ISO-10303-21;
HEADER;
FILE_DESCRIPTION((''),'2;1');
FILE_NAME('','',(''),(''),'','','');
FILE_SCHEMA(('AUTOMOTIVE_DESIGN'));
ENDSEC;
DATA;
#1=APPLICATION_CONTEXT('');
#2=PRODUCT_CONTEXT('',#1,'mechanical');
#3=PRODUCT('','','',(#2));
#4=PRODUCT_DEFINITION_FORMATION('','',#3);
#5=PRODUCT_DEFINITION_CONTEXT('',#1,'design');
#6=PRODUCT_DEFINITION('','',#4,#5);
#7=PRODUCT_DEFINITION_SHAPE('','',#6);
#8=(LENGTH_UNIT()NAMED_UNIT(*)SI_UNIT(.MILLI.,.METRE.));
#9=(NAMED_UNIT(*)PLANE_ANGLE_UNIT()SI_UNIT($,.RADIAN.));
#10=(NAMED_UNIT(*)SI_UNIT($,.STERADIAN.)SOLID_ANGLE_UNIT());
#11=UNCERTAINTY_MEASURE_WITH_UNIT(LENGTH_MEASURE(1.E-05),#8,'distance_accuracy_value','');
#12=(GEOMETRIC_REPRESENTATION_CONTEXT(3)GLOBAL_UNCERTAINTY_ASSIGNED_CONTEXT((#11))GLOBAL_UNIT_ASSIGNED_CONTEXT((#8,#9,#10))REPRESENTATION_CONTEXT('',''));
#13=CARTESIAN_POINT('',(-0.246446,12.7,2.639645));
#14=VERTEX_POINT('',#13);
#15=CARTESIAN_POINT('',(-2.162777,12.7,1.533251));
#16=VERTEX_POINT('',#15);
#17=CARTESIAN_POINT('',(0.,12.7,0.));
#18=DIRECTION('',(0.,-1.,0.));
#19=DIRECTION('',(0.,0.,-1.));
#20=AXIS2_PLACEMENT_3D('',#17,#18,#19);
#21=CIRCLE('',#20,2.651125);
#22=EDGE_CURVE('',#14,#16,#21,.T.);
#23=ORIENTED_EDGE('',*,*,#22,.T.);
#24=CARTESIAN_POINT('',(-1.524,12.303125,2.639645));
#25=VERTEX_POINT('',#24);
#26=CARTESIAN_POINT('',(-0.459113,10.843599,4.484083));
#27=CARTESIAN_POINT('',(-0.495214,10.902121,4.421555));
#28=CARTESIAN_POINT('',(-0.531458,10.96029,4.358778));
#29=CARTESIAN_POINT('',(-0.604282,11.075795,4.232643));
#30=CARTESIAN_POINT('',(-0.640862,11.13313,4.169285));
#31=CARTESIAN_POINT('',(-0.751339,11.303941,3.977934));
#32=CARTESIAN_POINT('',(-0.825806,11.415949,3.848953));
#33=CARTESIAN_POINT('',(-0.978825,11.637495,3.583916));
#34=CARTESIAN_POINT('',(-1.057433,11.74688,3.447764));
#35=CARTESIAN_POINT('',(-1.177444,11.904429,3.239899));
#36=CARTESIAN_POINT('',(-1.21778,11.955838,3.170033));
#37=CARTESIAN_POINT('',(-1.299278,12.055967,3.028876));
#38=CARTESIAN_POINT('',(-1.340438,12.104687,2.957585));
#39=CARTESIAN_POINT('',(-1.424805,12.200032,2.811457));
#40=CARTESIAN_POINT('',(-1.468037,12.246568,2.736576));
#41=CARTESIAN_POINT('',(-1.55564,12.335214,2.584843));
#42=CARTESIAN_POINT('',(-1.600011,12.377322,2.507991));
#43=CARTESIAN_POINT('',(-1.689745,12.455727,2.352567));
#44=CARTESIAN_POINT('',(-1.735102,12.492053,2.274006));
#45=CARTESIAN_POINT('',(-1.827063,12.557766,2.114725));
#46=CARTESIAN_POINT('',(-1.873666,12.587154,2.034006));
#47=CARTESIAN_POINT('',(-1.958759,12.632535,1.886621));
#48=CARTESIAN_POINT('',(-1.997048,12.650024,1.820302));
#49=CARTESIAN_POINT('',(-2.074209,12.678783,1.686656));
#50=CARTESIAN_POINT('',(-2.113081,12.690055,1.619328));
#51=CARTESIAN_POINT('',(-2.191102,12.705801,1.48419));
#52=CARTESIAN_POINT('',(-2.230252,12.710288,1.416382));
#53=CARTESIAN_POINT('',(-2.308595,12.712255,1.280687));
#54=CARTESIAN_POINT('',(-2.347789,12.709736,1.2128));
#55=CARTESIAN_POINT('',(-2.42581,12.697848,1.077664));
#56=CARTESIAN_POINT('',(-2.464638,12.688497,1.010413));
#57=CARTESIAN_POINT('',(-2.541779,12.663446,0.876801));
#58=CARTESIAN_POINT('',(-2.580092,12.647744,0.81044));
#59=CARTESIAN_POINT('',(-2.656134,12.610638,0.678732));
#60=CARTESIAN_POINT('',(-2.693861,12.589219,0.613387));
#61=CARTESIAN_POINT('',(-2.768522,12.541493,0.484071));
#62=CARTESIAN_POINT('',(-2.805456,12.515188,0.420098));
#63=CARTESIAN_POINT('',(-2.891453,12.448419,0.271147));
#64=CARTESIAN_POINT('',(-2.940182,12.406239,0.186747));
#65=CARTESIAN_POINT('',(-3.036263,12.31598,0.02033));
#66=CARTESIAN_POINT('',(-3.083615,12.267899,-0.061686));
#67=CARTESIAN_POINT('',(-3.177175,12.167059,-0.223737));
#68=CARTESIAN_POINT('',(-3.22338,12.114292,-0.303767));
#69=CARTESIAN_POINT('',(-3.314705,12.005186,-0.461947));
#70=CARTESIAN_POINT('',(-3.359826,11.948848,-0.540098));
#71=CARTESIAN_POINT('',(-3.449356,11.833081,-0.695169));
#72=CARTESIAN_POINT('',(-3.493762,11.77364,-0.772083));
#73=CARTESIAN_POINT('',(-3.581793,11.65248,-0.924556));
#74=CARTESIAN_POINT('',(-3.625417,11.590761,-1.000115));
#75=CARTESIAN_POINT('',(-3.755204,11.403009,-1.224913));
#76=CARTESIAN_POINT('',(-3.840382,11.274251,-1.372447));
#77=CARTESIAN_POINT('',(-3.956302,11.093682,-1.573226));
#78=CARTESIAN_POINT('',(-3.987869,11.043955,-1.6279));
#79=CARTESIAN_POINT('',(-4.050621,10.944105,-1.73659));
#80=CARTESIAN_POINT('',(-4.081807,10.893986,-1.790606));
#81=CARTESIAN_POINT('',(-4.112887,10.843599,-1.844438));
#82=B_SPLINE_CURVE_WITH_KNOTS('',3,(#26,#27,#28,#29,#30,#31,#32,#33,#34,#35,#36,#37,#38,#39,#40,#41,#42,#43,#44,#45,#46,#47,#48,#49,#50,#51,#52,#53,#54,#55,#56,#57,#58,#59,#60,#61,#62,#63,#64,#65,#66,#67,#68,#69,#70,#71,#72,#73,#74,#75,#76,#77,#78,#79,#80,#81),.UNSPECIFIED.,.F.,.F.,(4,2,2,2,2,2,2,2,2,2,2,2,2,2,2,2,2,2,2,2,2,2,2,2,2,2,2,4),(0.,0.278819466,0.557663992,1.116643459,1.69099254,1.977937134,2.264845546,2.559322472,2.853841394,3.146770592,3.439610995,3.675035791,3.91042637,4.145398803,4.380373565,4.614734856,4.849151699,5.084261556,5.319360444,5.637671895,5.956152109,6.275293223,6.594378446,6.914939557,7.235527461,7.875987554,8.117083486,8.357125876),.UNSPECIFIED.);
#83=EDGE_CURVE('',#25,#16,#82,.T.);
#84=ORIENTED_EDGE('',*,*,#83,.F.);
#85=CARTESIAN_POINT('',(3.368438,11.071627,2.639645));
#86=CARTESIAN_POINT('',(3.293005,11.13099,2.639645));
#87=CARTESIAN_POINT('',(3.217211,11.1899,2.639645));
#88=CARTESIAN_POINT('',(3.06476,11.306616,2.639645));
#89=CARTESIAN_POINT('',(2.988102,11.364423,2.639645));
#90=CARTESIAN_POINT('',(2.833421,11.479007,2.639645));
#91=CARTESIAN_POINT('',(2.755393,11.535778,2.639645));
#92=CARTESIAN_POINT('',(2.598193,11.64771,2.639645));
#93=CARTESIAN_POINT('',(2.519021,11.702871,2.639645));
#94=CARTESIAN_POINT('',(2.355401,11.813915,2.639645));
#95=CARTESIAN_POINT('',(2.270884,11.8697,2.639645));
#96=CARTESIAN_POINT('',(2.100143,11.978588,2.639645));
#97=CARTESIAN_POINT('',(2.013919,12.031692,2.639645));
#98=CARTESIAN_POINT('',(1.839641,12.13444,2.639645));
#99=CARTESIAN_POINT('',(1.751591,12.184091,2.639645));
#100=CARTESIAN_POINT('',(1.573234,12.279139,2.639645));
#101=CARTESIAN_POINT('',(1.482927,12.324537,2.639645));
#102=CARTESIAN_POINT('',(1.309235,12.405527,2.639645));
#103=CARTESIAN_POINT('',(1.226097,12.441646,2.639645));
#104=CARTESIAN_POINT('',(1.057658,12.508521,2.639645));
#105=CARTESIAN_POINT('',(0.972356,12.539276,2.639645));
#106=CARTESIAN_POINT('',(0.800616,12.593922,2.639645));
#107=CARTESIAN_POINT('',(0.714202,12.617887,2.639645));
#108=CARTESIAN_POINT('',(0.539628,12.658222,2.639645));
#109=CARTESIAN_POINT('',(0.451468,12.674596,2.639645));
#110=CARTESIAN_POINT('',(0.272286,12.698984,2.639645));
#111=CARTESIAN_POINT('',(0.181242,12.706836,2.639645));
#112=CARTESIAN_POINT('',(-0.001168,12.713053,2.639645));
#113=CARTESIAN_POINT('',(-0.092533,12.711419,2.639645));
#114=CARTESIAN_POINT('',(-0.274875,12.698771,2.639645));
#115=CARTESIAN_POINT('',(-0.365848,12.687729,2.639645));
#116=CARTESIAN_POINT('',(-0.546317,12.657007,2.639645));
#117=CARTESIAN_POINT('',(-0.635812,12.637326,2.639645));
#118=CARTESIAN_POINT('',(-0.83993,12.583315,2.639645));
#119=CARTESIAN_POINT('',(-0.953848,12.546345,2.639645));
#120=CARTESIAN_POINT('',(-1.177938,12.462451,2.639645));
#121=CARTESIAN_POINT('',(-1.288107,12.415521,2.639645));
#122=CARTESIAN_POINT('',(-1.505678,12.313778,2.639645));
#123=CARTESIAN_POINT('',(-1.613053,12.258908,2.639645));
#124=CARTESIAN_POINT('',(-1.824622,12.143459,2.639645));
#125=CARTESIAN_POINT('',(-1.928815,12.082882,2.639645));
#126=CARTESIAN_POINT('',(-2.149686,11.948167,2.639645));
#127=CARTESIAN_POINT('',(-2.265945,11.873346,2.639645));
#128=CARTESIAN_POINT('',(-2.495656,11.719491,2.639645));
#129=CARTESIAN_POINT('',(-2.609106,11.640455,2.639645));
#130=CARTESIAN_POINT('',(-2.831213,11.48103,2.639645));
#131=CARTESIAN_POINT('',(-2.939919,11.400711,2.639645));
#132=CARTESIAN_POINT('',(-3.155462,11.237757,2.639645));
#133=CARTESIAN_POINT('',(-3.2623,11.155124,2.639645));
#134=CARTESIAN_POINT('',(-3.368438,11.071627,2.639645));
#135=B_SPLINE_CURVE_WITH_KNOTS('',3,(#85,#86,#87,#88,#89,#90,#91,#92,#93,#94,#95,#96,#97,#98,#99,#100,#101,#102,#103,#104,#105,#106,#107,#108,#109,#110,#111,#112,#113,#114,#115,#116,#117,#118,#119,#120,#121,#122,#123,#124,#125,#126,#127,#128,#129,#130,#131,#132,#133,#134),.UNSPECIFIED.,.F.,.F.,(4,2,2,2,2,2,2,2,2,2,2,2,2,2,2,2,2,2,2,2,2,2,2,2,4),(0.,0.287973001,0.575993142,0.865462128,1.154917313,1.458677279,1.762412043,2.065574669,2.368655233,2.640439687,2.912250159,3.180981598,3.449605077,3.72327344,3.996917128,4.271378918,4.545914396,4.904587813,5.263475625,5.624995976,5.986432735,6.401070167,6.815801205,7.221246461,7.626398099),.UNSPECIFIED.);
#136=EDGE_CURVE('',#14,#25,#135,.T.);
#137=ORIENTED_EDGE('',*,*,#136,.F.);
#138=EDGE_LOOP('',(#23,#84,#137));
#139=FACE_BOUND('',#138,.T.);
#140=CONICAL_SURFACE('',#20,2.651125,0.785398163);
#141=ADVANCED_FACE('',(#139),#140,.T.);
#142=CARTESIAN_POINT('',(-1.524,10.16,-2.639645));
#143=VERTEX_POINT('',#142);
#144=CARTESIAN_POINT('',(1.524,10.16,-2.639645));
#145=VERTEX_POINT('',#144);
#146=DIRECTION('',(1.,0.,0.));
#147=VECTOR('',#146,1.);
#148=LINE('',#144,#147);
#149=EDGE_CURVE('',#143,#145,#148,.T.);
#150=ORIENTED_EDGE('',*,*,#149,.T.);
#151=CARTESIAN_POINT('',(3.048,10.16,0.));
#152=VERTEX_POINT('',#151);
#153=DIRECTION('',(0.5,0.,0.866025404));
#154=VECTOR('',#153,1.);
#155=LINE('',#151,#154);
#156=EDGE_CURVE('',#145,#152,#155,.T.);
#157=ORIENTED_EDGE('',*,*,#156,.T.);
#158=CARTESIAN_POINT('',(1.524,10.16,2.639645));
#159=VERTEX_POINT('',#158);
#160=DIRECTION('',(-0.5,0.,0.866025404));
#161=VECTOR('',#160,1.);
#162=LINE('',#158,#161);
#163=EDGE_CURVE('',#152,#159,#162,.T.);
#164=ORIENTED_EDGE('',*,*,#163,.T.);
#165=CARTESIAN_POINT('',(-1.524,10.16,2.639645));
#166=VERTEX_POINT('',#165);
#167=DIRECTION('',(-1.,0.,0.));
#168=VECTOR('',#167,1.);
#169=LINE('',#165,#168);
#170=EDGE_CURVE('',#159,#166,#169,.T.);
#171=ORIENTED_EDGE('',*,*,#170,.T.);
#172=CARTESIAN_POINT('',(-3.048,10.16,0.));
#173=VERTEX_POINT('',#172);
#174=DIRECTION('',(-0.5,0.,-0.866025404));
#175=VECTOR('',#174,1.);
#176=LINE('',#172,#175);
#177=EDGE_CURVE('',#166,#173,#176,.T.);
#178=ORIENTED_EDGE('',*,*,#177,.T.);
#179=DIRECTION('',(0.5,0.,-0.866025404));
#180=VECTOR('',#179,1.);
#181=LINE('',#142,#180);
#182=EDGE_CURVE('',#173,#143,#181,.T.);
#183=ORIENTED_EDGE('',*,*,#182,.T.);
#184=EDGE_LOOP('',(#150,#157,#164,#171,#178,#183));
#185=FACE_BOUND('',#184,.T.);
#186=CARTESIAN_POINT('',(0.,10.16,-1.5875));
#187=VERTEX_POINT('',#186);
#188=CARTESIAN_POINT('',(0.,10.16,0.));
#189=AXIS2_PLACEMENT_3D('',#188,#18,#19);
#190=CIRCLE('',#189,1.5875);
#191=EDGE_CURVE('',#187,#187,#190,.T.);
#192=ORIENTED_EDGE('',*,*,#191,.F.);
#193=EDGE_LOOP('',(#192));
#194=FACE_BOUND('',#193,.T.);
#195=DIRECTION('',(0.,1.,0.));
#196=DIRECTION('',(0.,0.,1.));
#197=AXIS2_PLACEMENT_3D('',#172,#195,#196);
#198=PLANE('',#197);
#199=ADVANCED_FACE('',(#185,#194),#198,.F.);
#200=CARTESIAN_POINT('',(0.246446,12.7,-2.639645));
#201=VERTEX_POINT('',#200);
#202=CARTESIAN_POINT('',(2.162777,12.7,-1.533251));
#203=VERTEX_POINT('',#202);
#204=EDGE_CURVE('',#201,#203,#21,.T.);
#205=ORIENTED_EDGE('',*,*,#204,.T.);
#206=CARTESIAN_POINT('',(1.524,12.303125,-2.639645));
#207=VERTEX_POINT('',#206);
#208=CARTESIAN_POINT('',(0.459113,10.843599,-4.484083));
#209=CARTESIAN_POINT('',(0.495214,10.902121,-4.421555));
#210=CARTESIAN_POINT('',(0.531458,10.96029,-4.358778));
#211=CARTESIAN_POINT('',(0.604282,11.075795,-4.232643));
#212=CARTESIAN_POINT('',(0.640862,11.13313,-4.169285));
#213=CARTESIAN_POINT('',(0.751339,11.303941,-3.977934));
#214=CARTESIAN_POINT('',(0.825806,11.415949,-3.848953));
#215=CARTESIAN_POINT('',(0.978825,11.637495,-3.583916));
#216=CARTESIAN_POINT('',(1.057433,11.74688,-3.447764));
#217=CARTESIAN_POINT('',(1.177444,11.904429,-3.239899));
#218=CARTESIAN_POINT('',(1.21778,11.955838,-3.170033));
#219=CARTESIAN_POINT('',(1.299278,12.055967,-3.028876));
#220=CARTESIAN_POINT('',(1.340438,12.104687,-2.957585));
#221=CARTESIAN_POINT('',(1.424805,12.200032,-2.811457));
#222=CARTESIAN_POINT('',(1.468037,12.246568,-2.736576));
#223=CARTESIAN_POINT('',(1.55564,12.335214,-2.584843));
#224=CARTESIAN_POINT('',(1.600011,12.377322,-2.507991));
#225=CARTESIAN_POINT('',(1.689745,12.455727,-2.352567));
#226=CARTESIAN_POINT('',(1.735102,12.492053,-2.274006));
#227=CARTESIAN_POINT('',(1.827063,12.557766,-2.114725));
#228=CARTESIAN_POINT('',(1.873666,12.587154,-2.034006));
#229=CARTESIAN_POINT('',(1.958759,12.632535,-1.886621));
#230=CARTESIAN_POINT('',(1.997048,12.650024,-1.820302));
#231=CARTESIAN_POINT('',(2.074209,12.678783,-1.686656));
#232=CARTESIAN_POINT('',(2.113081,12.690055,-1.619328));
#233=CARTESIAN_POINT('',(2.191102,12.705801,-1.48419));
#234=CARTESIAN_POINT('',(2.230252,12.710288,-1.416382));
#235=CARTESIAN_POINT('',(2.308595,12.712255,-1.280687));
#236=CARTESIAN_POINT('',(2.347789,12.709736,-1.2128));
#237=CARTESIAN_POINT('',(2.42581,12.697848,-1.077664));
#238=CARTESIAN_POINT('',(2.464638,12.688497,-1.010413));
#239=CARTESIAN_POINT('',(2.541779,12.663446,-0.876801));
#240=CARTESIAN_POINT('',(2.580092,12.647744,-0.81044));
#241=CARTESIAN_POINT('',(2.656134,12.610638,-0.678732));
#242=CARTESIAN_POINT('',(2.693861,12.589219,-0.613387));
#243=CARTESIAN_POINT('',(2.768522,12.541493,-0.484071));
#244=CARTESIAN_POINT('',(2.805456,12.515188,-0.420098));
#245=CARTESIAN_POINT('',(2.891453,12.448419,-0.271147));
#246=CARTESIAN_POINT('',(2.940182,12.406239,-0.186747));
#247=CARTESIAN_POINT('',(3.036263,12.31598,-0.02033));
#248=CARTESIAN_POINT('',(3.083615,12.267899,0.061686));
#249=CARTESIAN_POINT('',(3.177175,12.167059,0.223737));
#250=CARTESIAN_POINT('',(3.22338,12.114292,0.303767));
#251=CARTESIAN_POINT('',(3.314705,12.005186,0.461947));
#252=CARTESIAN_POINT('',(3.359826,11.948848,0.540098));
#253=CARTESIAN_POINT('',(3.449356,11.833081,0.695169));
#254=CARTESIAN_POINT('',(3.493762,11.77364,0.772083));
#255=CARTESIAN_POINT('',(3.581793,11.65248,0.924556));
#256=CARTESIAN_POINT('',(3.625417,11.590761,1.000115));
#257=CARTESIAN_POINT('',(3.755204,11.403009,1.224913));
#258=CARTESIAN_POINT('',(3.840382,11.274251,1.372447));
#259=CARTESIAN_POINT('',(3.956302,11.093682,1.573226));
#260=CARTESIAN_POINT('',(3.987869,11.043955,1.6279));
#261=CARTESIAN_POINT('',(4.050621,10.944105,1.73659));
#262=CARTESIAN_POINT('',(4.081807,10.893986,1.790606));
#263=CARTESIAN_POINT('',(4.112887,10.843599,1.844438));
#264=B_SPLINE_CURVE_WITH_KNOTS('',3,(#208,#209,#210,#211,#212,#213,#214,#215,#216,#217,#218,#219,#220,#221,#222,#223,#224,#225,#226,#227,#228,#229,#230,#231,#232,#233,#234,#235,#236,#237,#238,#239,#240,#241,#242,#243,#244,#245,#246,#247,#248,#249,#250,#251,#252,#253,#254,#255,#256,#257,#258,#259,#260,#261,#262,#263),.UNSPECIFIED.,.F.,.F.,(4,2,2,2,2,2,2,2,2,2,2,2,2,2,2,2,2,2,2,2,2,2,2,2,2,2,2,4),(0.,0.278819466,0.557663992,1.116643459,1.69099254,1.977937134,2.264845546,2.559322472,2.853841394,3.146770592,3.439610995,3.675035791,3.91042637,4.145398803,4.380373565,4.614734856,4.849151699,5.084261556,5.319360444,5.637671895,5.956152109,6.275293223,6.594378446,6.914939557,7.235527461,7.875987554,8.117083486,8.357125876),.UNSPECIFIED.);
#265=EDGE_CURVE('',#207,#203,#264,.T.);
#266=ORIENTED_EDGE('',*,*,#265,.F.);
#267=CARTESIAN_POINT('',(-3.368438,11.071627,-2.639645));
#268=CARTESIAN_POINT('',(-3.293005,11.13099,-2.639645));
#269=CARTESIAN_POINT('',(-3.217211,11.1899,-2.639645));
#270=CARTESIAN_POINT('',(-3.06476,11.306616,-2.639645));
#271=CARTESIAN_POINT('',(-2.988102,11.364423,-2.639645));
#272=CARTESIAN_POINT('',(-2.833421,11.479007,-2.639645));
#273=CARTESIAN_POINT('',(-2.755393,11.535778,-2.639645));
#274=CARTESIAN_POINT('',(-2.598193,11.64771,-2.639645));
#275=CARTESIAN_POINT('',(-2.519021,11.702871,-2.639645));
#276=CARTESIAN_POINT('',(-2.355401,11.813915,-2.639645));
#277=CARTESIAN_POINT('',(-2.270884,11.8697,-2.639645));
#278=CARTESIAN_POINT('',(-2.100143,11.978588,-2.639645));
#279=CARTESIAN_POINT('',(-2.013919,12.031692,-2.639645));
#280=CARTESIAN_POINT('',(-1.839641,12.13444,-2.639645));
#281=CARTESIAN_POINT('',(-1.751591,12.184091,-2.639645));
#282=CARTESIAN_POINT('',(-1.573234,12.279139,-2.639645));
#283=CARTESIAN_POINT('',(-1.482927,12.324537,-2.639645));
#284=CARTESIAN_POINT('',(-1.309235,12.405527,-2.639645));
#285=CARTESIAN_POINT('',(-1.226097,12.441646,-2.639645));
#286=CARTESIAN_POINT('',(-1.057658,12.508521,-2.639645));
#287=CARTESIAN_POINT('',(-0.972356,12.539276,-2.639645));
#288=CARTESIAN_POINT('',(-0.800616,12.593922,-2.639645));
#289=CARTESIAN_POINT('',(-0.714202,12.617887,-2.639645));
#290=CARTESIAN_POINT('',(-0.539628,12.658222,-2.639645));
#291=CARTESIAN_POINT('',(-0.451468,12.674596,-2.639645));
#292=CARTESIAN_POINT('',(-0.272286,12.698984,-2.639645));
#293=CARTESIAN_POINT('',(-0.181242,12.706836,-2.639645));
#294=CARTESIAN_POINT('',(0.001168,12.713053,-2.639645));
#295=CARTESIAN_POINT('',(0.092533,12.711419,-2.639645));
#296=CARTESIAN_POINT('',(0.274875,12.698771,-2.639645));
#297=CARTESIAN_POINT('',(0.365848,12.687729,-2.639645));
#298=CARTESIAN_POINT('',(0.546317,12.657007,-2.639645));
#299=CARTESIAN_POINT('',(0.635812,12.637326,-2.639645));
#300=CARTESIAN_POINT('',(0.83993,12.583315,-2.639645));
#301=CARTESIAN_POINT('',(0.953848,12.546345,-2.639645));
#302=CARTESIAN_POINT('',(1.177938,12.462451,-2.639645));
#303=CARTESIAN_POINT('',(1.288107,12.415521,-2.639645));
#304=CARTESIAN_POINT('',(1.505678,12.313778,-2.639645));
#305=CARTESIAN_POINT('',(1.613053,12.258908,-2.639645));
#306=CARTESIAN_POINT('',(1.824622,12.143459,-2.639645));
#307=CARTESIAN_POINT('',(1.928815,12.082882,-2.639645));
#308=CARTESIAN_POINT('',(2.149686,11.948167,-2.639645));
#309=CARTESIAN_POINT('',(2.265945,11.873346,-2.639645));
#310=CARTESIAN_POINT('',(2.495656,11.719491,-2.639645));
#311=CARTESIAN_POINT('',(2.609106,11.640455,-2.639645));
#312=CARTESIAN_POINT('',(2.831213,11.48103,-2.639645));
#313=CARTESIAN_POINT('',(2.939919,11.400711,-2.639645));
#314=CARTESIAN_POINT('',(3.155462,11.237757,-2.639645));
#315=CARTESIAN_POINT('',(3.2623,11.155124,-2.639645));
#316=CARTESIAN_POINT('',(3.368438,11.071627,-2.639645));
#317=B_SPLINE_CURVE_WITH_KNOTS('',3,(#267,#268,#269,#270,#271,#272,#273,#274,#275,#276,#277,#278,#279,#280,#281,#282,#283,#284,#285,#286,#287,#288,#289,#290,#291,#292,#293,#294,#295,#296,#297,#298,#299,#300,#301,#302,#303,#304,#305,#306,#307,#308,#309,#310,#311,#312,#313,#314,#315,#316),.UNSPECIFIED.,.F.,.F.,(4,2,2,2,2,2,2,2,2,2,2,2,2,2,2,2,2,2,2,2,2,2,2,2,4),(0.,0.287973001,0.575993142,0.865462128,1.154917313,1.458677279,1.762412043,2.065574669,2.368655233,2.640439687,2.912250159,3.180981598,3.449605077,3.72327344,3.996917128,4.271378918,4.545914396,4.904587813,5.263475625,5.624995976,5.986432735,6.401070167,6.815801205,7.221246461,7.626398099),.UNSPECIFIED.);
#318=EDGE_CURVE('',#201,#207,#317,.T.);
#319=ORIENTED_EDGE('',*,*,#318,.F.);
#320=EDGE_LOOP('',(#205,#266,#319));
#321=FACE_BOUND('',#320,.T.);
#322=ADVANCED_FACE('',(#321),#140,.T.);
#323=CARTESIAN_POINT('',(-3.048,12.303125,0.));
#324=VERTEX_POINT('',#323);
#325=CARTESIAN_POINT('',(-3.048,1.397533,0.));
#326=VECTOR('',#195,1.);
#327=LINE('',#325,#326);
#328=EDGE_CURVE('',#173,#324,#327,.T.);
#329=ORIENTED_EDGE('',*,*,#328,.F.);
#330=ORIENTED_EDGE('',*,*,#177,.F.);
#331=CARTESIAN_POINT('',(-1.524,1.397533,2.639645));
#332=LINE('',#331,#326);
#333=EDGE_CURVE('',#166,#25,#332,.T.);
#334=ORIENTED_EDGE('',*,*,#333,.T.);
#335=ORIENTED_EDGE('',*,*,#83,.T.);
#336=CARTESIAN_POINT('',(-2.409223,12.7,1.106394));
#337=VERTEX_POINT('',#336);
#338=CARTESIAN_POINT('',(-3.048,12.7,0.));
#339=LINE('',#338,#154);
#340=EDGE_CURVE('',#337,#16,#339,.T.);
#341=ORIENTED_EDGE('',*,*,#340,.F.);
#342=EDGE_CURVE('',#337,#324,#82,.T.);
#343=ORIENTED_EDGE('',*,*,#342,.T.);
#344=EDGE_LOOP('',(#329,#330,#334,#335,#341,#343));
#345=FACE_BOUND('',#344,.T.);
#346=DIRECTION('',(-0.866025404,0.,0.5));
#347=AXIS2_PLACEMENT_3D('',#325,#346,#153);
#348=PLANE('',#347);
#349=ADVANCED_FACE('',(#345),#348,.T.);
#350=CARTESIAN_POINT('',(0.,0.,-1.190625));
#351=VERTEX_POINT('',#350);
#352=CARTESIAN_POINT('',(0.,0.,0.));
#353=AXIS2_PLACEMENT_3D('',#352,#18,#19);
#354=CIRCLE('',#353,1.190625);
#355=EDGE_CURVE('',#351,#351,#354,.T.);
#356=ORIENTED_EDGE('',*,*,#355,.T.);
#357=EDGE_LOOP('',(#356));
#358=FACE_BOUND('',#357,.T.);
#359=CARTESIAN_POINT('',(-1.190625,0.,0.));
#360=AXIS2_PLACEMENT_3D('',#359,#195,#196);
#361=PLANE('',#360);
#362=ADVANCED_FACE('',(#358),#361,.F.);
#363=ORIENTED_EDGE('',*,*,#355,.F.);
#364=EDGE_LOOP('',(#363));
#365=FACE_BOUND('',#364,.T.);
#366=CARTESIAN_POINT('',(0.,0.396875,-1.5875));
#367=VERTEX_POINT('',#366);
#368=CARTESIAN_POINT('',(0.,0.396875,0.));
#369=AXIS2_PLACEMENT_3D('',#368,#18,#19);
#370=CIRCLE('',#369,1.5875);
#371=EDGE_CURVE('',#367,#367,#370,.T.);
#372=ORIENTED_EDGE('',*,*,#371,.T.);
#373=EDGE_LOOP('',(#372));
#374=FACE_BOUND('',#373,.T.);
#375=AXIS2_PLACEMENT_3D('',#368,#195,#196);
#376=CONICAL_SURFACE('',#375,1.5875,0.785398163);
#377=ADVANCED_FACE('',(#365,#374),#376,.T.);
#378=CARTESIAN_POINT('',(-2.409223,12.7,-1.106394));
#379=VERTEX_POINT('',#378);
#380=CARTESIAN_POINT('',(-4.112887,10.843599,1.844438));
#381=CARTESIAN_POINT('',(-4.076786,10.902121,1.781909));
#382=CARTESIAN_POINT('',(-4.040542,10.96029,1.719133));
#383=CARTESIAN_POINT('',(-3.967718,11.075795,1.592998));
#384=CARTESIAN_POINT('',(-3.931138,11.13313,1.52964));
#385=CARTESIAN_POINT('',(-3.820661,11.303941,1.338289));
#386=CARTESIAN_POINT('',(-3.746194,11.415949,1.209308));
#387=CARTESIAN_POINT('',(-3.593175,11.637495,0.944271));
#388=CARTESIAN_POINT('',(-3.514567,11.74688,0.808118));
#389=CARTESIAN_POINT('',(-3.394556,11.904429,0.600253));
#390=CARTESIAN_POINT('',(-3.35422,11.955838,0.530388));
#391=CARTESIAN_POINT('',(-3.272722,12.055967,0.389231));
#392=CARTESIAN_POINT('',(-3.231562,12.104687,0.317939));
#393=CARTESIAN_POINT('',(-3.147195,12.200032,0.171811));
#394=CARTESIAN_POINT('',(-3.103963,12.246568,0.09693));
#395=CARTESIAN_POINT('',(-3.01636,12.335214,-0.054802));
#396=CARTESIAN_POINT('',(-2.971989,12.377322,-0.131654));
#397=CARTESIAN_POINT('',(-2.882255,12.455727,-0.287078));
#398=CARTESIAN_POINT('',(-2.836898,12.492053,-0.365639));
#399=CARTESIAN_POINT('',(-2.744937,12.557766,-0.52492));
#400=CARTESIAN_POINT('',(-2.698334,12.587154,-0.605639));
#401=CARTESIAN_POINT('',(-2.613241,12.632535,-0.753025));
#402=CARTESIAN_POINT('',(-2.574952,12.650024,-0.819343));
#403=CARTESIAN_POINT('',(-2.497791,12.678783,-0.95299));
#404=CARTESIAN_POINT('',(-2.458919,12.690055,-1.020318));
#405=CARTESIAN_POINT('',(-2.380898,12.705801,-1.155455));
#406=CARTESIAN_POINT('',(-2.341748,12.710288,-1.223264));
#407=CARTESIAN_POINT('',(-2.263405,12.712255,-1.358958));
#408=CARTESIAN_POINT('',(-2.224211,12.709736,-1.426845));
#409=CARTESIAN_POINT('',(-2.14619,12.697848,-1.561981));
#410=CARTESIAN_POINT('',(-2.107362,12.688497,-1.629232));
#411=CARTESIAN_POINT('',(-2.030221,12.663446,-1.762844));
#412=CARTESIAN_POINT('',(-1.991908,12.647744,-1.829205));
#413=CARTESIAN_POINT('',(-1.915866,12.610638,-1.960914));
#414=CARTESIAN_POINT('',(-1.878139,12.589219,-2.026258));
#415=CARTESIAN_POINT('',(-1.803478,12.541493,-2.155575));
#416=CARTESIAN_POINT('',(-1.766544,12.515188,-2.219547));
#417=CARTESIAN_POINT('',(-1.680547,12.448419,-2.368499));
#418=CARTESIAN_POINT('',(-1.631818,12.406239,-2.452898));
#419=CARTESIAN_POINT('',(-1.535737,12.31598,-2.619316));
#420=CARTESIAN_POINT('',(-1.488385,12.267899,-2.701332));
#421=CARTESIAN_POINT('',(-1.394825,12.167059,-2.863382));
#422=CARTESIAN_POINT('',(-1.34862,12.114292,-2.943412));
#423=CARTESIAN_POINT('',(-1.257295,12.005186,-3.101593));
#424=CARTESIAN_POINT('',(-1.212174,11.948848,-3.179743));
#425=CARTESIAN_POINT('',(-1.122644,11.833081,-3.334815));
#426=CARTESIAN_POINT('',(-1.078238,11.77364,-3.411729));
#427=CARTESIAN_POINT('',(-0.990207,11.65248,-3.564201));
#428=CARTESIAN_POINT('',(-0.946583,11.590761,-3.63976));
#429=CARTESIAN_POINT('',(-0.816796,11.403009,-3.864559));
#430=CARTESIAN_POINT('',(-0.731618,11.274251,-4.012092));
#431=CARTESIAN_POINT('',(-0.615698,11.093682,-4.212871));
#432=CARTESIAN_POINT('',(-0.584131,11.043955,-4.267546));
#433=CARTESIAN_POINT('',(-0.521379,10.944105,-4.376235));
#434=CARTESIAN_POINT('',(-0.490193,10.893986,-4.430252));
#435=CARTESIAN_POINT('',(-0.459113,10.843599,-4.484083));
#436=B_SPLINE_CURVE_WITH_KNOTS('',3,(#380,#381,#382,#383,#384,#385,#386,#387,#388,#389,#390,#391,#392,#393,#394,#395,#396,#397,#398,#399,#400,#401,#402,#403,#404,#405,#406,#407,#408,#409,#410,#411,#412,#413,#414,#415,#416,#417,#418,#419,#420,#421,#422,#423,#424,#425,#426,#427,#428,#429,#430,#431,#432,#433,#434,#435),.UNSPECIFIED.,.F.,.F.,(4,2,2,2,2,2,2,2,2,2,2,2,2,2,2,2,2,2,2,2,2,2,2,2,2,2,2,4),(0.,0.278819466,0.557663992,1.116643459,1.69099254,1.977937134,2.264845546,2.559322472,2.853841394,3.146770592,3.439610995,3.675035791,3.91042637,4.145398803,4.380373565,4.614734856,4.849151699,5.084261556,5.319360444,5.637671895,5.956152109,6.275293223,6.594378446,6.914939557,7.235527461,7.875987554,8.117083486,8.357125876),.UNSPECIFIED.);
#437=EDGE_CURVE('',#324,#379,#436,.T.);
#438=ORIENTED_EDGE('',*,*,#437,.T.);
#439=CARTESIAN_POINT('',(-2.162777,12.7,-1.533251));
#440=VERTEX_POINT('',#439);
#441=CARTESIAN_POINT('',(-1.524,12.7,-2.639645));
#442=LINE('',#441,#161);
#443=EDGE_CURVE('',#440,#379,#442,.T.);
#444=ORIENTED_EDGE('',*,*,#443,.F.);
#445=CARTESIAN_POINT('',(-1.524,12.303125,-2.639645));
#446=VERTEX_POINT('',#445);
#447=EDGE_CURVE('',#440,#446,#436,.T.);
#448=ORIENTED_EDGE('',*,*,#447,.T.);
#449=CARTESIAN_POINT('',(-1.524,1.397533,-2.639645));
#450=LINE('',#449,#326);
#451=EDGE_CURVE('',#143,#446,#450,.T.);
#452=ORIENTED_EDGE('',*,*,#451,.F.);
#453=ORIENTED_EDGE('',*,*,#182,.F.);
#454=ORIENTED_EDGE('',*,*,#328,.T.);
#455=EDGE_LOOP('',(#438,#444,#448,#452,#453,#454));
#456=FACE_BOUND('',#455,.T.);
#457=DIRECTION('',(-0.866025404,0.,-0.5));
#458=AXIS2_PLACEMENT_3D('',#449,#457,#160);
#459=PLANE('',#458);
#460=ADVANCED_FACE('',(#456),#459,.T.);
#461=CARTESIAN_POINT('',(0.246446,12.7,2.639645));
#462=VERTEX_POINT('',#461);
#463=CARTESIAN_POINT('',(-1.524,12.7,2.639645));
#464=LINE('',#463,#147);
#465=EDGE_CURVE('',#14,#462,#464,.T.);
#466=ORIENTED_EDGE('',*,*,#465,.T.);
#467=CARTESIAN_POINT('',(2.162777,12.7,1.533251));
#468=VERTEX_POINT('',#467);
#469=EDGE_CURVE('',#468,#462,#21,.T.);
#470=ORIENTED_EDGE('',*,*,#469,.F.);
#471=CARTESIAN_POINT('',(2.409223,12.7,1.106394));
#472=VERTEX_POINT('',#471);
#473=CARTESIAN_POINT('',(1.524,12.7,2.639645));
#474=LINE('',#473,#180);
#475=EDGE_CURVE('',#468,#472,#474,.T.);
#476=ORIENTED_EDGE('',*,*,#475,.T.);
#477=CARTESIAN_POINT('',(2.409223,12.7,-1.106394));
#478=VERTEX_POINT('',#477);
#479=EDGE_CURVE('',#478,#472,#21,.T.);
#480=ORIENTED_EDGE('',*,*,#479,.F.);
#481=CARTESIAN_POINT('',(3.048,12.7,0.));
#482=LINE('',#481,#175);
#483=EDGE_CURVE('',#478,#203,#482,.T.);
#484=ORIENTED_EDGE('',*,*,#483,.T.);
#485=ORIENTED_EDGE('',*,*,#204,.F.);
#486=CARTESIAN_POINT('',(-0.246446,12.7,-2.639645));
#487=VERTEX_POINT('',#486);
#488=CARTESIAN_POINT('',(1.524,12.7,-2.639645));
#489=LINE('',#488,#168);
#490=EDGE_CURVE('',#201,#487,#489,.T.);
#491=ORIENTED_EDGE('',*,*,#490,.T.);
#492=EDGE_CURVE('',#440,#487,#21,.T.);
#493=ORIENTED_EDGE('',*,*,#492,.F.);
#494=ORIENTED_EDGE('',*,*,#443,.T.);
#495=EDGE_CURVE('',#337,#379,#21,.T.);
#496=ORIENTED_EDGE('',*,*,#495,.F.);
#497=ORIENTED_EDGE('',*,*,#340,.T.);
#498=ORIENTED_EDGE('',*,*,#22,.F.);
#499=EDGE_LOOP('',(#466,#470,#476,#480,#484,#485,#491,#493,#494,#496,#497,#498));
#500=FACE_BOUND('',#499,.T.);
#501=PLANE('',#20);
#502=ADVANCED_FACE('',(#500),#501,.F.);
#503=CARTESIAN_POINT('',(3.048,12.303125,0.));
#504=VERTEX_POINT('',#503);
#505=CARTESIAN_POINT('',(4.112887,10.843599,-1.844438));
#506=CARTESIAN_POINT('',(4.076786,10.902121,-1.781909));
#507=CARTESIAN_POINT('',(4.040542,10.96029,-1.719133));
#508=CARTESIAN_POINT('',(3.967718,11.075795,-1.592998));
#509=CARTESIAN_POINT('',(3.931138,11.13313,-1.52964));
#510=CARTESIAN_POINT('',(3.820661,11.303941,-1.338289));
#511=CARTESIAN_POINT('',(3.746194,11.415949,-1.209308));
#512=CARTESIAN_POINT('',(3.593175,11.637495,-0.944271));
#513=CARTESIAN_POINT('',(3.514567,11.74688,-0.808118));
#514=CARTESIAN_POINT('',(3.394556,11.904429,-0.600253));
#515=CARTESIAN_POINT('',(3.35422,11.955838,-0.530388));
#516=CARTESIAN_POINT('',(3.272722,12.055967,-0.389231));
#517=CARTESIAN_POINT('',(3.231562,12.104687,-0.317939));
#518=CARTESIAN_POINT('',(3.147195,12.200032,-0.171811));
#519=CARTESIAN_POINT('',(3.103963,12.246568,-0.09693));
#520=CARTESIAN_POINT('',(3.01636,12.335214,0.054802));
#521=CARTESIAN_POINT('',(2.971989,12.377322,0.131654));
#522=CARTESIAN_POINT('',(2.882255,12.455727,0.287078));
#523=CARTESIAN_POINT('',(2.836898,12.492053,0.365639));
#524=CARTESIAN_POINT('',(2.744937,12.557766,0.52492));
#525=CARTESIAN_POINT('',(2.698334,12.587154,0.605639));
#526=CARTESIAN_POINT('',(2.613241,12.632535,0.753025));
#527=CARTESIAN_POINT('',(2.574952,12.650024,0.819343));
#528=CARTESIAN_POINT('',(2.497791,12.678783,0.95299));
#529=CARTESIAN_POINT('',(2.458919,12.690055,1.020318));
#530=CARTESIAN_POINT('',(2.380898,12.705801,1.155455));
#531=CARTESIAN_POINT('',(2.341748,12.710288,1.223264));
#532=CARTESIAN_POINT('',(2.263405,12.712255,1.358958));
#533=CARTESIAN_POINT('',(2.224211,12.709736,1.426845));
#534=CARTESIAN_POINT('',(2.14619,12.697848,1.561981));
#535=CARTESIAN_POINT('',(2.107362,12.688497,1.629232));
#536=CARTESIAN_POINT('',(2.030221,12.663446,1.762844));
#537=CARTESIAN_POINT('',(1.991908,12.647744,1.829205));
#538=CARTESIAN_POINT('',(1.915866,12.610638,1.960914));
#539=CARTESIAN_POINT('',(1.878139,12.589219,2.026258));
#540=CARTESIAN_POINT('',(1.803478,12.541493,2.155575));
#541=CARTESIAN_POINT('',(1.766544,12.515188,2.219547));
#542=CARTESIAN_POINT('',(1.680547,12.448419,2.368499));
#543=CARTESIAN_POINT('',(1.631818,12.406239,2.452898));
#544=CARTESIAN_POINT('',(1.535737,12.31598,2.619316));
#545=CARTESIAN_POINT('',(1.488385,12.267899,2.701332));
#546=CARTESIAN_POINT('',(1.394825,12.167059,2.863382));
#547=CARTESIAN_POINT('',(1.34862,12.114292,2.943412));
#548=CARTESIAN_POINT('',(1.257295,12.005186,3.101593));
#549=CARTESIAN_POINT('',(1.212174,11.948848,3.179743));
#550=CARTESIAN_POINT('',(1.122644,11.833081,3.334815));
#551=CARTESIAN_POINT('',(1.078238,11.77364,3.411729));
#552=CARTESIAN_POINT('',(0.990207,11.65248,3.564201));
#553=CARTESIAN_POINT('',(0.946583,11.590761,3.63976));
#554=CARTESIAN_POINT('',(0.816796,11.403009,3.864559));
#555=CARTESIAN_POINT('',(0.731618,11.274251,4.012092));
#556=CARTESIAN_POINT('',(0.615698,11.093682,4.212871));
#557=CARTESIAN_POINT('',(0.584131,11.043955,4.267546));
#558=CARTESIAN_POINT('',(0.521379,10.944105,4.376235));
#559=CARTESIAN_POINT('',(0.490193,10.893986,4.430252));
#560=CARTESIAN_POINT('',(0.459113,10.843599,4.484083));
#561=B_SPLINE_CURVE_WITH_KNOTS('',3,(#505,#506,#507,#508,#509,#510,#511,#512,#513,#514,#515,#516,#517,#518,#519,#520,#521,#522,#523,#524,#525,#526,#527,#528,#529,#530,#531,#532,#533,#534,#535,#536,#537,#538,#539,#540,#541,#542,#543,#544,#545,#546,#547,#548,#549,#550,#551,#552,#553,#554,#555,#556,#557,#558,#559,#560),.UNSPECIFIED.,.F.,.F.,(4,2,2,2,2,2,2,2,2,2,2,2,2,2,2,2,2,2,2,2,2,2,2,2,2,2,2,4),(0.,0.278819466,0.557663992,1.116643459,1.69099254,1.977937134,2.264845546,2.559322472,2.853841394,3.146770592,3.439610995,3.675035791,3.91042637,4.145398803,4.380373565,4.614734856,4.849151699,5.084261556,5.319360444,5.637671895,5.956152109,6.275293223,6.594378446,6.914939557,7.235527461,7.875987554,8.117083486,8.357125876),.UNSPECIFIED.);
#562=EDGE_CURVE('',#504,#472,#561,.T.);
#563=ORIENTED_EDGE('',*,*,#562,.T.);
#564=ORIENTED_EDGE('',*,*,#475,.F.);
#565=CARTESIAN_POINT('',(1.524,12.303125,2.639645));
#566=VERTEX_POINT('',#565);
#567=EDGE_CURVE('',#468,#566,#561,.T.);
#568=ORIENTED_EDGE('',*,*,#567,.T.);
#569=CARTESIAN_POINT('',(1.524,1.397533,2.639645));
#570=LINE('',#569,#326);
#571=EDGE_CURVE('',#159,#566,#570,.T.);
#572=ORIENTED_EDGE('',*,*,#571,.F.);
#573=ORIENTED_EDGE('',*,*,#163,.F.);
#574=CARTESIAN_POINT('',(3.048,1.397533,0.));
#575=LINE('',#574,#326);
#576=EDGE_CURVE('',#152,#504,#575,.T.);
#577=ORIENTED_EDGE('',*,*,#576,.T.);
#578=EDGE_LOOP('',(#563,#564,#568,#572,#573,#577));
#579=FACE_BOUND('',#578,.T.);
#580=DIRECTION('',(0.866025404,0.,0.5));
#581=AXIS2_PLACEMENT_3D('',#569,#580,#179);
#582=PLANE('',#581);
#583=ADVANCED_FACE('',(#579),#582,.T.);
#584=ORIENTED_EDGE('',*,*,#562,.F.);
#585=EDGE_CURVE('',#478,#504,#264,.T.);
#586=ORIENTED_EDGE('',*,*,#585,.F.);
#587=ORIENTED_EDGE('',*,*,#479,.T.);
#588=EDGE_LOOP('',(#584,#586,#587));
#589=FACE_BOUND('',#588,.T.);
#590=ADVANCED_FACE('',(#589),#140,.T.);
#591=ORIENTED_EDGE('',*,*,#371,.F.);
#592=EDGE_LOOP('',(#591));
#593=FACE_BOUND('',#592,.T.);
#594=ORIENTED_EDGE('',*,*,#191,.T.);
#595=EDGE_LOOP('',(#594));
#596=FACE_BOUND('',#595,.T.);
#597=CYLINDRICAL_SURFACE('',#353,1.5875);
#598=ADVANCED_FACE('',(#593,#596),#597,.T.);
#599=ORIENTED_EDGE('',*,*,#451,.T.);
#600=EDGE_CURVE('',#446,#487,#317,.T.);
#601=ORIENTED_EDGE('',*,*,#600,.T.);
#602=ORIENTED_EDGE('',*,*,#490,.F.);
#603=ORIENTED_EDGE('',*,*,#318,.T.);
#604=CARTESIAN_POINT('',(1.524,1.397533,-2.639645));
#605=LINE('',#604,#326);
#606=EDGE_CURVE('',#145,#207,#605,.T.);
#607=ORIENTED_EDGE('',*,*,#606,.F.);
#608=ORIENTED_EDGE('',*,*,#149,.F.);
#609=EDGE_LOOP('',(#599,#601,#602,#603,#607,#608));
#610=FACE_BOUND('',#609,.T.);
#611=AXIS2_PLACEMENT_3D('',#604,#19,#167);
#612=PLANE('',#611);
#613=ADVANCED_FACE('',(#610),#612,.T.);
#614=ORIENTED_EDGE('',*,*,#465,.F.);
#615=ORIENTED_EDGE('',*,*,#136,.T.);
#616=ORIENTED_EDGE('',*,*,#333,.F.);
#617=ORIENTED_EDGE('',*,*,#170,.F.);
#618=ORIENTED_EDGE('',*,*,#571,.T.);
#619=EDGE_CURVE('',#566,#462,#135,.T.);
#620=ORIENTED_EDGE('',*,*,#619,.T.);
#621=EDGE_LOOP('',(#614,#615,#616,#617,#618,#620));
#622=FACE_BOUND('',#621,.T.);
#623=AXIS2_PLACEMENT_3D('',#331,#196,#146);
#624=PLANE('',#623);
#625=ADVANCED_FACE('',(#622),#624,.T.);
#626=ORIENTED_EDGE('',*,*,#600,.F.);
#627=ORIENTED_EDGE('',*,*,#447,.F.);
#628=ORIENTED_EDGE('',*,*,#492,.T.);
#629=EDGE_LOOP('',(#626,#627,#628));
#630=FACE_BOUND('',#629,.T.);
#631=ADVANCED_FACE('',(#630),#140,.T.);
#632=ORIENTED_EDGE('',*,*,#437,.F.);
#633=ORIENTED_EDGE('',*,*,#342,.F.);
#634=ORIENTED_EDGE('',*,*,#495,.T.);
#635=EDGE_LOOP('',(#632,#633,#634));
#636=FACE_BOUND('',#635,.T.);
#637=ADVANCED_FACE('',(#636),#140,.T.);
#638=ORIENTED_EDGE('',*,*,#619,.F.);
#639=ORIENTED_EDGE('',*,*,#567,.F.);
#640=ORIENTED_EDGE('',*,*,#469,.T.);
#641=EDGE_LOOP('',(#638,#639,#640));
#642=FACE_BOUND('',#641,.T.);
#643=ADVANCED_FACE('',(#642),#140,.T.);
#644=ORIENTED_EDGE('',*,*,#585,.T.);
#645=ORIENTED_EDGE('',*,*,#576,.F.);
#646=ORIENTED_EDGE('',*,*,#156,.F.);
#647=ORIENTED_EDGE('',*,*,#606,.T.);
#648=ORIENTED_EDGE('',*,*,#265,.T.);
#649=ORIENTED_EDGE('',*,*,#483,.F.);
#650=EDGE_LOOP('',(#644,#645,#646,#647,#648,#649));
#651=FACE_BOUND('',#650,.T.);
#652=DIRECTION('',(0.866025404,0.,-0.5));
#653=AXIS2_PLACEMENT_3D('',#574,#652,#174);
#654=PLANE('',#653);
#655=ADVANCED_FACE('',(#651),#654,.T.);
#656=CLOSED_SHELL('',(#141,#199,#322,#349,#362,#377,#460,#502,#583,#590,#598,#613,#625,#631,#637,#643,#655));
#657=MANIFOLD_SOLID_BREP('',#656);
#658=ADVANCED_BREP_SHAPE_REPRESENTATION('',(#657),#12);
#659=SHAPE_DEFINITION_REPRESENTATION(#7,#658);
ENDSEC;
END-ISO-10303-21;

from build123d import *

# Parameters (mm, degrees)
SKETCH2_OUTSIDE_W  = 11.166
SKETCH2_OUTSIDE_H  = 11.166
CUT_EXTRUDE1_DEPTH = 2.54


with BuildPart() as part:
    # Sketch1 → Revolve1 (revolve)
    with BuildSketch(Plane.XY):
        Polygon((0, 12.7), (-2.651125, 12.7), (-3.048, 12.303125), (-3.048, 10.16), (-1.5875, 10.16), (-1.5875, 0.396875), (-1.190625, 0), (0, 0), align=None)
    revolve(axis=Axis((0, 0, 0), (0, 1, 0)))

    # Sketch2 outside → Cut-Extrude1 (cut)
    with BuildSketch(Plane(origin=(0, 12.7, 0), x_dir=(1, 0, 0), z_dir=(0, 1, 0))):
        Rectangle(SKETCH2_OUTSIDE_W, SKETCH2_OUTSIDE_H)
        Polygon((-1.524, 2.639645431), (-3.048, 0), (-1.524, -2.639645431), (1.524, -2.639645431), (3.048, 0), (1.524, 2.639645431), align=None, mode=Mode.SUBTRACT)
    extrude(amount=-CUT_EXTRUDE1_DEPTH, mode=Mode.SUBTRACT)


solid = part.part
